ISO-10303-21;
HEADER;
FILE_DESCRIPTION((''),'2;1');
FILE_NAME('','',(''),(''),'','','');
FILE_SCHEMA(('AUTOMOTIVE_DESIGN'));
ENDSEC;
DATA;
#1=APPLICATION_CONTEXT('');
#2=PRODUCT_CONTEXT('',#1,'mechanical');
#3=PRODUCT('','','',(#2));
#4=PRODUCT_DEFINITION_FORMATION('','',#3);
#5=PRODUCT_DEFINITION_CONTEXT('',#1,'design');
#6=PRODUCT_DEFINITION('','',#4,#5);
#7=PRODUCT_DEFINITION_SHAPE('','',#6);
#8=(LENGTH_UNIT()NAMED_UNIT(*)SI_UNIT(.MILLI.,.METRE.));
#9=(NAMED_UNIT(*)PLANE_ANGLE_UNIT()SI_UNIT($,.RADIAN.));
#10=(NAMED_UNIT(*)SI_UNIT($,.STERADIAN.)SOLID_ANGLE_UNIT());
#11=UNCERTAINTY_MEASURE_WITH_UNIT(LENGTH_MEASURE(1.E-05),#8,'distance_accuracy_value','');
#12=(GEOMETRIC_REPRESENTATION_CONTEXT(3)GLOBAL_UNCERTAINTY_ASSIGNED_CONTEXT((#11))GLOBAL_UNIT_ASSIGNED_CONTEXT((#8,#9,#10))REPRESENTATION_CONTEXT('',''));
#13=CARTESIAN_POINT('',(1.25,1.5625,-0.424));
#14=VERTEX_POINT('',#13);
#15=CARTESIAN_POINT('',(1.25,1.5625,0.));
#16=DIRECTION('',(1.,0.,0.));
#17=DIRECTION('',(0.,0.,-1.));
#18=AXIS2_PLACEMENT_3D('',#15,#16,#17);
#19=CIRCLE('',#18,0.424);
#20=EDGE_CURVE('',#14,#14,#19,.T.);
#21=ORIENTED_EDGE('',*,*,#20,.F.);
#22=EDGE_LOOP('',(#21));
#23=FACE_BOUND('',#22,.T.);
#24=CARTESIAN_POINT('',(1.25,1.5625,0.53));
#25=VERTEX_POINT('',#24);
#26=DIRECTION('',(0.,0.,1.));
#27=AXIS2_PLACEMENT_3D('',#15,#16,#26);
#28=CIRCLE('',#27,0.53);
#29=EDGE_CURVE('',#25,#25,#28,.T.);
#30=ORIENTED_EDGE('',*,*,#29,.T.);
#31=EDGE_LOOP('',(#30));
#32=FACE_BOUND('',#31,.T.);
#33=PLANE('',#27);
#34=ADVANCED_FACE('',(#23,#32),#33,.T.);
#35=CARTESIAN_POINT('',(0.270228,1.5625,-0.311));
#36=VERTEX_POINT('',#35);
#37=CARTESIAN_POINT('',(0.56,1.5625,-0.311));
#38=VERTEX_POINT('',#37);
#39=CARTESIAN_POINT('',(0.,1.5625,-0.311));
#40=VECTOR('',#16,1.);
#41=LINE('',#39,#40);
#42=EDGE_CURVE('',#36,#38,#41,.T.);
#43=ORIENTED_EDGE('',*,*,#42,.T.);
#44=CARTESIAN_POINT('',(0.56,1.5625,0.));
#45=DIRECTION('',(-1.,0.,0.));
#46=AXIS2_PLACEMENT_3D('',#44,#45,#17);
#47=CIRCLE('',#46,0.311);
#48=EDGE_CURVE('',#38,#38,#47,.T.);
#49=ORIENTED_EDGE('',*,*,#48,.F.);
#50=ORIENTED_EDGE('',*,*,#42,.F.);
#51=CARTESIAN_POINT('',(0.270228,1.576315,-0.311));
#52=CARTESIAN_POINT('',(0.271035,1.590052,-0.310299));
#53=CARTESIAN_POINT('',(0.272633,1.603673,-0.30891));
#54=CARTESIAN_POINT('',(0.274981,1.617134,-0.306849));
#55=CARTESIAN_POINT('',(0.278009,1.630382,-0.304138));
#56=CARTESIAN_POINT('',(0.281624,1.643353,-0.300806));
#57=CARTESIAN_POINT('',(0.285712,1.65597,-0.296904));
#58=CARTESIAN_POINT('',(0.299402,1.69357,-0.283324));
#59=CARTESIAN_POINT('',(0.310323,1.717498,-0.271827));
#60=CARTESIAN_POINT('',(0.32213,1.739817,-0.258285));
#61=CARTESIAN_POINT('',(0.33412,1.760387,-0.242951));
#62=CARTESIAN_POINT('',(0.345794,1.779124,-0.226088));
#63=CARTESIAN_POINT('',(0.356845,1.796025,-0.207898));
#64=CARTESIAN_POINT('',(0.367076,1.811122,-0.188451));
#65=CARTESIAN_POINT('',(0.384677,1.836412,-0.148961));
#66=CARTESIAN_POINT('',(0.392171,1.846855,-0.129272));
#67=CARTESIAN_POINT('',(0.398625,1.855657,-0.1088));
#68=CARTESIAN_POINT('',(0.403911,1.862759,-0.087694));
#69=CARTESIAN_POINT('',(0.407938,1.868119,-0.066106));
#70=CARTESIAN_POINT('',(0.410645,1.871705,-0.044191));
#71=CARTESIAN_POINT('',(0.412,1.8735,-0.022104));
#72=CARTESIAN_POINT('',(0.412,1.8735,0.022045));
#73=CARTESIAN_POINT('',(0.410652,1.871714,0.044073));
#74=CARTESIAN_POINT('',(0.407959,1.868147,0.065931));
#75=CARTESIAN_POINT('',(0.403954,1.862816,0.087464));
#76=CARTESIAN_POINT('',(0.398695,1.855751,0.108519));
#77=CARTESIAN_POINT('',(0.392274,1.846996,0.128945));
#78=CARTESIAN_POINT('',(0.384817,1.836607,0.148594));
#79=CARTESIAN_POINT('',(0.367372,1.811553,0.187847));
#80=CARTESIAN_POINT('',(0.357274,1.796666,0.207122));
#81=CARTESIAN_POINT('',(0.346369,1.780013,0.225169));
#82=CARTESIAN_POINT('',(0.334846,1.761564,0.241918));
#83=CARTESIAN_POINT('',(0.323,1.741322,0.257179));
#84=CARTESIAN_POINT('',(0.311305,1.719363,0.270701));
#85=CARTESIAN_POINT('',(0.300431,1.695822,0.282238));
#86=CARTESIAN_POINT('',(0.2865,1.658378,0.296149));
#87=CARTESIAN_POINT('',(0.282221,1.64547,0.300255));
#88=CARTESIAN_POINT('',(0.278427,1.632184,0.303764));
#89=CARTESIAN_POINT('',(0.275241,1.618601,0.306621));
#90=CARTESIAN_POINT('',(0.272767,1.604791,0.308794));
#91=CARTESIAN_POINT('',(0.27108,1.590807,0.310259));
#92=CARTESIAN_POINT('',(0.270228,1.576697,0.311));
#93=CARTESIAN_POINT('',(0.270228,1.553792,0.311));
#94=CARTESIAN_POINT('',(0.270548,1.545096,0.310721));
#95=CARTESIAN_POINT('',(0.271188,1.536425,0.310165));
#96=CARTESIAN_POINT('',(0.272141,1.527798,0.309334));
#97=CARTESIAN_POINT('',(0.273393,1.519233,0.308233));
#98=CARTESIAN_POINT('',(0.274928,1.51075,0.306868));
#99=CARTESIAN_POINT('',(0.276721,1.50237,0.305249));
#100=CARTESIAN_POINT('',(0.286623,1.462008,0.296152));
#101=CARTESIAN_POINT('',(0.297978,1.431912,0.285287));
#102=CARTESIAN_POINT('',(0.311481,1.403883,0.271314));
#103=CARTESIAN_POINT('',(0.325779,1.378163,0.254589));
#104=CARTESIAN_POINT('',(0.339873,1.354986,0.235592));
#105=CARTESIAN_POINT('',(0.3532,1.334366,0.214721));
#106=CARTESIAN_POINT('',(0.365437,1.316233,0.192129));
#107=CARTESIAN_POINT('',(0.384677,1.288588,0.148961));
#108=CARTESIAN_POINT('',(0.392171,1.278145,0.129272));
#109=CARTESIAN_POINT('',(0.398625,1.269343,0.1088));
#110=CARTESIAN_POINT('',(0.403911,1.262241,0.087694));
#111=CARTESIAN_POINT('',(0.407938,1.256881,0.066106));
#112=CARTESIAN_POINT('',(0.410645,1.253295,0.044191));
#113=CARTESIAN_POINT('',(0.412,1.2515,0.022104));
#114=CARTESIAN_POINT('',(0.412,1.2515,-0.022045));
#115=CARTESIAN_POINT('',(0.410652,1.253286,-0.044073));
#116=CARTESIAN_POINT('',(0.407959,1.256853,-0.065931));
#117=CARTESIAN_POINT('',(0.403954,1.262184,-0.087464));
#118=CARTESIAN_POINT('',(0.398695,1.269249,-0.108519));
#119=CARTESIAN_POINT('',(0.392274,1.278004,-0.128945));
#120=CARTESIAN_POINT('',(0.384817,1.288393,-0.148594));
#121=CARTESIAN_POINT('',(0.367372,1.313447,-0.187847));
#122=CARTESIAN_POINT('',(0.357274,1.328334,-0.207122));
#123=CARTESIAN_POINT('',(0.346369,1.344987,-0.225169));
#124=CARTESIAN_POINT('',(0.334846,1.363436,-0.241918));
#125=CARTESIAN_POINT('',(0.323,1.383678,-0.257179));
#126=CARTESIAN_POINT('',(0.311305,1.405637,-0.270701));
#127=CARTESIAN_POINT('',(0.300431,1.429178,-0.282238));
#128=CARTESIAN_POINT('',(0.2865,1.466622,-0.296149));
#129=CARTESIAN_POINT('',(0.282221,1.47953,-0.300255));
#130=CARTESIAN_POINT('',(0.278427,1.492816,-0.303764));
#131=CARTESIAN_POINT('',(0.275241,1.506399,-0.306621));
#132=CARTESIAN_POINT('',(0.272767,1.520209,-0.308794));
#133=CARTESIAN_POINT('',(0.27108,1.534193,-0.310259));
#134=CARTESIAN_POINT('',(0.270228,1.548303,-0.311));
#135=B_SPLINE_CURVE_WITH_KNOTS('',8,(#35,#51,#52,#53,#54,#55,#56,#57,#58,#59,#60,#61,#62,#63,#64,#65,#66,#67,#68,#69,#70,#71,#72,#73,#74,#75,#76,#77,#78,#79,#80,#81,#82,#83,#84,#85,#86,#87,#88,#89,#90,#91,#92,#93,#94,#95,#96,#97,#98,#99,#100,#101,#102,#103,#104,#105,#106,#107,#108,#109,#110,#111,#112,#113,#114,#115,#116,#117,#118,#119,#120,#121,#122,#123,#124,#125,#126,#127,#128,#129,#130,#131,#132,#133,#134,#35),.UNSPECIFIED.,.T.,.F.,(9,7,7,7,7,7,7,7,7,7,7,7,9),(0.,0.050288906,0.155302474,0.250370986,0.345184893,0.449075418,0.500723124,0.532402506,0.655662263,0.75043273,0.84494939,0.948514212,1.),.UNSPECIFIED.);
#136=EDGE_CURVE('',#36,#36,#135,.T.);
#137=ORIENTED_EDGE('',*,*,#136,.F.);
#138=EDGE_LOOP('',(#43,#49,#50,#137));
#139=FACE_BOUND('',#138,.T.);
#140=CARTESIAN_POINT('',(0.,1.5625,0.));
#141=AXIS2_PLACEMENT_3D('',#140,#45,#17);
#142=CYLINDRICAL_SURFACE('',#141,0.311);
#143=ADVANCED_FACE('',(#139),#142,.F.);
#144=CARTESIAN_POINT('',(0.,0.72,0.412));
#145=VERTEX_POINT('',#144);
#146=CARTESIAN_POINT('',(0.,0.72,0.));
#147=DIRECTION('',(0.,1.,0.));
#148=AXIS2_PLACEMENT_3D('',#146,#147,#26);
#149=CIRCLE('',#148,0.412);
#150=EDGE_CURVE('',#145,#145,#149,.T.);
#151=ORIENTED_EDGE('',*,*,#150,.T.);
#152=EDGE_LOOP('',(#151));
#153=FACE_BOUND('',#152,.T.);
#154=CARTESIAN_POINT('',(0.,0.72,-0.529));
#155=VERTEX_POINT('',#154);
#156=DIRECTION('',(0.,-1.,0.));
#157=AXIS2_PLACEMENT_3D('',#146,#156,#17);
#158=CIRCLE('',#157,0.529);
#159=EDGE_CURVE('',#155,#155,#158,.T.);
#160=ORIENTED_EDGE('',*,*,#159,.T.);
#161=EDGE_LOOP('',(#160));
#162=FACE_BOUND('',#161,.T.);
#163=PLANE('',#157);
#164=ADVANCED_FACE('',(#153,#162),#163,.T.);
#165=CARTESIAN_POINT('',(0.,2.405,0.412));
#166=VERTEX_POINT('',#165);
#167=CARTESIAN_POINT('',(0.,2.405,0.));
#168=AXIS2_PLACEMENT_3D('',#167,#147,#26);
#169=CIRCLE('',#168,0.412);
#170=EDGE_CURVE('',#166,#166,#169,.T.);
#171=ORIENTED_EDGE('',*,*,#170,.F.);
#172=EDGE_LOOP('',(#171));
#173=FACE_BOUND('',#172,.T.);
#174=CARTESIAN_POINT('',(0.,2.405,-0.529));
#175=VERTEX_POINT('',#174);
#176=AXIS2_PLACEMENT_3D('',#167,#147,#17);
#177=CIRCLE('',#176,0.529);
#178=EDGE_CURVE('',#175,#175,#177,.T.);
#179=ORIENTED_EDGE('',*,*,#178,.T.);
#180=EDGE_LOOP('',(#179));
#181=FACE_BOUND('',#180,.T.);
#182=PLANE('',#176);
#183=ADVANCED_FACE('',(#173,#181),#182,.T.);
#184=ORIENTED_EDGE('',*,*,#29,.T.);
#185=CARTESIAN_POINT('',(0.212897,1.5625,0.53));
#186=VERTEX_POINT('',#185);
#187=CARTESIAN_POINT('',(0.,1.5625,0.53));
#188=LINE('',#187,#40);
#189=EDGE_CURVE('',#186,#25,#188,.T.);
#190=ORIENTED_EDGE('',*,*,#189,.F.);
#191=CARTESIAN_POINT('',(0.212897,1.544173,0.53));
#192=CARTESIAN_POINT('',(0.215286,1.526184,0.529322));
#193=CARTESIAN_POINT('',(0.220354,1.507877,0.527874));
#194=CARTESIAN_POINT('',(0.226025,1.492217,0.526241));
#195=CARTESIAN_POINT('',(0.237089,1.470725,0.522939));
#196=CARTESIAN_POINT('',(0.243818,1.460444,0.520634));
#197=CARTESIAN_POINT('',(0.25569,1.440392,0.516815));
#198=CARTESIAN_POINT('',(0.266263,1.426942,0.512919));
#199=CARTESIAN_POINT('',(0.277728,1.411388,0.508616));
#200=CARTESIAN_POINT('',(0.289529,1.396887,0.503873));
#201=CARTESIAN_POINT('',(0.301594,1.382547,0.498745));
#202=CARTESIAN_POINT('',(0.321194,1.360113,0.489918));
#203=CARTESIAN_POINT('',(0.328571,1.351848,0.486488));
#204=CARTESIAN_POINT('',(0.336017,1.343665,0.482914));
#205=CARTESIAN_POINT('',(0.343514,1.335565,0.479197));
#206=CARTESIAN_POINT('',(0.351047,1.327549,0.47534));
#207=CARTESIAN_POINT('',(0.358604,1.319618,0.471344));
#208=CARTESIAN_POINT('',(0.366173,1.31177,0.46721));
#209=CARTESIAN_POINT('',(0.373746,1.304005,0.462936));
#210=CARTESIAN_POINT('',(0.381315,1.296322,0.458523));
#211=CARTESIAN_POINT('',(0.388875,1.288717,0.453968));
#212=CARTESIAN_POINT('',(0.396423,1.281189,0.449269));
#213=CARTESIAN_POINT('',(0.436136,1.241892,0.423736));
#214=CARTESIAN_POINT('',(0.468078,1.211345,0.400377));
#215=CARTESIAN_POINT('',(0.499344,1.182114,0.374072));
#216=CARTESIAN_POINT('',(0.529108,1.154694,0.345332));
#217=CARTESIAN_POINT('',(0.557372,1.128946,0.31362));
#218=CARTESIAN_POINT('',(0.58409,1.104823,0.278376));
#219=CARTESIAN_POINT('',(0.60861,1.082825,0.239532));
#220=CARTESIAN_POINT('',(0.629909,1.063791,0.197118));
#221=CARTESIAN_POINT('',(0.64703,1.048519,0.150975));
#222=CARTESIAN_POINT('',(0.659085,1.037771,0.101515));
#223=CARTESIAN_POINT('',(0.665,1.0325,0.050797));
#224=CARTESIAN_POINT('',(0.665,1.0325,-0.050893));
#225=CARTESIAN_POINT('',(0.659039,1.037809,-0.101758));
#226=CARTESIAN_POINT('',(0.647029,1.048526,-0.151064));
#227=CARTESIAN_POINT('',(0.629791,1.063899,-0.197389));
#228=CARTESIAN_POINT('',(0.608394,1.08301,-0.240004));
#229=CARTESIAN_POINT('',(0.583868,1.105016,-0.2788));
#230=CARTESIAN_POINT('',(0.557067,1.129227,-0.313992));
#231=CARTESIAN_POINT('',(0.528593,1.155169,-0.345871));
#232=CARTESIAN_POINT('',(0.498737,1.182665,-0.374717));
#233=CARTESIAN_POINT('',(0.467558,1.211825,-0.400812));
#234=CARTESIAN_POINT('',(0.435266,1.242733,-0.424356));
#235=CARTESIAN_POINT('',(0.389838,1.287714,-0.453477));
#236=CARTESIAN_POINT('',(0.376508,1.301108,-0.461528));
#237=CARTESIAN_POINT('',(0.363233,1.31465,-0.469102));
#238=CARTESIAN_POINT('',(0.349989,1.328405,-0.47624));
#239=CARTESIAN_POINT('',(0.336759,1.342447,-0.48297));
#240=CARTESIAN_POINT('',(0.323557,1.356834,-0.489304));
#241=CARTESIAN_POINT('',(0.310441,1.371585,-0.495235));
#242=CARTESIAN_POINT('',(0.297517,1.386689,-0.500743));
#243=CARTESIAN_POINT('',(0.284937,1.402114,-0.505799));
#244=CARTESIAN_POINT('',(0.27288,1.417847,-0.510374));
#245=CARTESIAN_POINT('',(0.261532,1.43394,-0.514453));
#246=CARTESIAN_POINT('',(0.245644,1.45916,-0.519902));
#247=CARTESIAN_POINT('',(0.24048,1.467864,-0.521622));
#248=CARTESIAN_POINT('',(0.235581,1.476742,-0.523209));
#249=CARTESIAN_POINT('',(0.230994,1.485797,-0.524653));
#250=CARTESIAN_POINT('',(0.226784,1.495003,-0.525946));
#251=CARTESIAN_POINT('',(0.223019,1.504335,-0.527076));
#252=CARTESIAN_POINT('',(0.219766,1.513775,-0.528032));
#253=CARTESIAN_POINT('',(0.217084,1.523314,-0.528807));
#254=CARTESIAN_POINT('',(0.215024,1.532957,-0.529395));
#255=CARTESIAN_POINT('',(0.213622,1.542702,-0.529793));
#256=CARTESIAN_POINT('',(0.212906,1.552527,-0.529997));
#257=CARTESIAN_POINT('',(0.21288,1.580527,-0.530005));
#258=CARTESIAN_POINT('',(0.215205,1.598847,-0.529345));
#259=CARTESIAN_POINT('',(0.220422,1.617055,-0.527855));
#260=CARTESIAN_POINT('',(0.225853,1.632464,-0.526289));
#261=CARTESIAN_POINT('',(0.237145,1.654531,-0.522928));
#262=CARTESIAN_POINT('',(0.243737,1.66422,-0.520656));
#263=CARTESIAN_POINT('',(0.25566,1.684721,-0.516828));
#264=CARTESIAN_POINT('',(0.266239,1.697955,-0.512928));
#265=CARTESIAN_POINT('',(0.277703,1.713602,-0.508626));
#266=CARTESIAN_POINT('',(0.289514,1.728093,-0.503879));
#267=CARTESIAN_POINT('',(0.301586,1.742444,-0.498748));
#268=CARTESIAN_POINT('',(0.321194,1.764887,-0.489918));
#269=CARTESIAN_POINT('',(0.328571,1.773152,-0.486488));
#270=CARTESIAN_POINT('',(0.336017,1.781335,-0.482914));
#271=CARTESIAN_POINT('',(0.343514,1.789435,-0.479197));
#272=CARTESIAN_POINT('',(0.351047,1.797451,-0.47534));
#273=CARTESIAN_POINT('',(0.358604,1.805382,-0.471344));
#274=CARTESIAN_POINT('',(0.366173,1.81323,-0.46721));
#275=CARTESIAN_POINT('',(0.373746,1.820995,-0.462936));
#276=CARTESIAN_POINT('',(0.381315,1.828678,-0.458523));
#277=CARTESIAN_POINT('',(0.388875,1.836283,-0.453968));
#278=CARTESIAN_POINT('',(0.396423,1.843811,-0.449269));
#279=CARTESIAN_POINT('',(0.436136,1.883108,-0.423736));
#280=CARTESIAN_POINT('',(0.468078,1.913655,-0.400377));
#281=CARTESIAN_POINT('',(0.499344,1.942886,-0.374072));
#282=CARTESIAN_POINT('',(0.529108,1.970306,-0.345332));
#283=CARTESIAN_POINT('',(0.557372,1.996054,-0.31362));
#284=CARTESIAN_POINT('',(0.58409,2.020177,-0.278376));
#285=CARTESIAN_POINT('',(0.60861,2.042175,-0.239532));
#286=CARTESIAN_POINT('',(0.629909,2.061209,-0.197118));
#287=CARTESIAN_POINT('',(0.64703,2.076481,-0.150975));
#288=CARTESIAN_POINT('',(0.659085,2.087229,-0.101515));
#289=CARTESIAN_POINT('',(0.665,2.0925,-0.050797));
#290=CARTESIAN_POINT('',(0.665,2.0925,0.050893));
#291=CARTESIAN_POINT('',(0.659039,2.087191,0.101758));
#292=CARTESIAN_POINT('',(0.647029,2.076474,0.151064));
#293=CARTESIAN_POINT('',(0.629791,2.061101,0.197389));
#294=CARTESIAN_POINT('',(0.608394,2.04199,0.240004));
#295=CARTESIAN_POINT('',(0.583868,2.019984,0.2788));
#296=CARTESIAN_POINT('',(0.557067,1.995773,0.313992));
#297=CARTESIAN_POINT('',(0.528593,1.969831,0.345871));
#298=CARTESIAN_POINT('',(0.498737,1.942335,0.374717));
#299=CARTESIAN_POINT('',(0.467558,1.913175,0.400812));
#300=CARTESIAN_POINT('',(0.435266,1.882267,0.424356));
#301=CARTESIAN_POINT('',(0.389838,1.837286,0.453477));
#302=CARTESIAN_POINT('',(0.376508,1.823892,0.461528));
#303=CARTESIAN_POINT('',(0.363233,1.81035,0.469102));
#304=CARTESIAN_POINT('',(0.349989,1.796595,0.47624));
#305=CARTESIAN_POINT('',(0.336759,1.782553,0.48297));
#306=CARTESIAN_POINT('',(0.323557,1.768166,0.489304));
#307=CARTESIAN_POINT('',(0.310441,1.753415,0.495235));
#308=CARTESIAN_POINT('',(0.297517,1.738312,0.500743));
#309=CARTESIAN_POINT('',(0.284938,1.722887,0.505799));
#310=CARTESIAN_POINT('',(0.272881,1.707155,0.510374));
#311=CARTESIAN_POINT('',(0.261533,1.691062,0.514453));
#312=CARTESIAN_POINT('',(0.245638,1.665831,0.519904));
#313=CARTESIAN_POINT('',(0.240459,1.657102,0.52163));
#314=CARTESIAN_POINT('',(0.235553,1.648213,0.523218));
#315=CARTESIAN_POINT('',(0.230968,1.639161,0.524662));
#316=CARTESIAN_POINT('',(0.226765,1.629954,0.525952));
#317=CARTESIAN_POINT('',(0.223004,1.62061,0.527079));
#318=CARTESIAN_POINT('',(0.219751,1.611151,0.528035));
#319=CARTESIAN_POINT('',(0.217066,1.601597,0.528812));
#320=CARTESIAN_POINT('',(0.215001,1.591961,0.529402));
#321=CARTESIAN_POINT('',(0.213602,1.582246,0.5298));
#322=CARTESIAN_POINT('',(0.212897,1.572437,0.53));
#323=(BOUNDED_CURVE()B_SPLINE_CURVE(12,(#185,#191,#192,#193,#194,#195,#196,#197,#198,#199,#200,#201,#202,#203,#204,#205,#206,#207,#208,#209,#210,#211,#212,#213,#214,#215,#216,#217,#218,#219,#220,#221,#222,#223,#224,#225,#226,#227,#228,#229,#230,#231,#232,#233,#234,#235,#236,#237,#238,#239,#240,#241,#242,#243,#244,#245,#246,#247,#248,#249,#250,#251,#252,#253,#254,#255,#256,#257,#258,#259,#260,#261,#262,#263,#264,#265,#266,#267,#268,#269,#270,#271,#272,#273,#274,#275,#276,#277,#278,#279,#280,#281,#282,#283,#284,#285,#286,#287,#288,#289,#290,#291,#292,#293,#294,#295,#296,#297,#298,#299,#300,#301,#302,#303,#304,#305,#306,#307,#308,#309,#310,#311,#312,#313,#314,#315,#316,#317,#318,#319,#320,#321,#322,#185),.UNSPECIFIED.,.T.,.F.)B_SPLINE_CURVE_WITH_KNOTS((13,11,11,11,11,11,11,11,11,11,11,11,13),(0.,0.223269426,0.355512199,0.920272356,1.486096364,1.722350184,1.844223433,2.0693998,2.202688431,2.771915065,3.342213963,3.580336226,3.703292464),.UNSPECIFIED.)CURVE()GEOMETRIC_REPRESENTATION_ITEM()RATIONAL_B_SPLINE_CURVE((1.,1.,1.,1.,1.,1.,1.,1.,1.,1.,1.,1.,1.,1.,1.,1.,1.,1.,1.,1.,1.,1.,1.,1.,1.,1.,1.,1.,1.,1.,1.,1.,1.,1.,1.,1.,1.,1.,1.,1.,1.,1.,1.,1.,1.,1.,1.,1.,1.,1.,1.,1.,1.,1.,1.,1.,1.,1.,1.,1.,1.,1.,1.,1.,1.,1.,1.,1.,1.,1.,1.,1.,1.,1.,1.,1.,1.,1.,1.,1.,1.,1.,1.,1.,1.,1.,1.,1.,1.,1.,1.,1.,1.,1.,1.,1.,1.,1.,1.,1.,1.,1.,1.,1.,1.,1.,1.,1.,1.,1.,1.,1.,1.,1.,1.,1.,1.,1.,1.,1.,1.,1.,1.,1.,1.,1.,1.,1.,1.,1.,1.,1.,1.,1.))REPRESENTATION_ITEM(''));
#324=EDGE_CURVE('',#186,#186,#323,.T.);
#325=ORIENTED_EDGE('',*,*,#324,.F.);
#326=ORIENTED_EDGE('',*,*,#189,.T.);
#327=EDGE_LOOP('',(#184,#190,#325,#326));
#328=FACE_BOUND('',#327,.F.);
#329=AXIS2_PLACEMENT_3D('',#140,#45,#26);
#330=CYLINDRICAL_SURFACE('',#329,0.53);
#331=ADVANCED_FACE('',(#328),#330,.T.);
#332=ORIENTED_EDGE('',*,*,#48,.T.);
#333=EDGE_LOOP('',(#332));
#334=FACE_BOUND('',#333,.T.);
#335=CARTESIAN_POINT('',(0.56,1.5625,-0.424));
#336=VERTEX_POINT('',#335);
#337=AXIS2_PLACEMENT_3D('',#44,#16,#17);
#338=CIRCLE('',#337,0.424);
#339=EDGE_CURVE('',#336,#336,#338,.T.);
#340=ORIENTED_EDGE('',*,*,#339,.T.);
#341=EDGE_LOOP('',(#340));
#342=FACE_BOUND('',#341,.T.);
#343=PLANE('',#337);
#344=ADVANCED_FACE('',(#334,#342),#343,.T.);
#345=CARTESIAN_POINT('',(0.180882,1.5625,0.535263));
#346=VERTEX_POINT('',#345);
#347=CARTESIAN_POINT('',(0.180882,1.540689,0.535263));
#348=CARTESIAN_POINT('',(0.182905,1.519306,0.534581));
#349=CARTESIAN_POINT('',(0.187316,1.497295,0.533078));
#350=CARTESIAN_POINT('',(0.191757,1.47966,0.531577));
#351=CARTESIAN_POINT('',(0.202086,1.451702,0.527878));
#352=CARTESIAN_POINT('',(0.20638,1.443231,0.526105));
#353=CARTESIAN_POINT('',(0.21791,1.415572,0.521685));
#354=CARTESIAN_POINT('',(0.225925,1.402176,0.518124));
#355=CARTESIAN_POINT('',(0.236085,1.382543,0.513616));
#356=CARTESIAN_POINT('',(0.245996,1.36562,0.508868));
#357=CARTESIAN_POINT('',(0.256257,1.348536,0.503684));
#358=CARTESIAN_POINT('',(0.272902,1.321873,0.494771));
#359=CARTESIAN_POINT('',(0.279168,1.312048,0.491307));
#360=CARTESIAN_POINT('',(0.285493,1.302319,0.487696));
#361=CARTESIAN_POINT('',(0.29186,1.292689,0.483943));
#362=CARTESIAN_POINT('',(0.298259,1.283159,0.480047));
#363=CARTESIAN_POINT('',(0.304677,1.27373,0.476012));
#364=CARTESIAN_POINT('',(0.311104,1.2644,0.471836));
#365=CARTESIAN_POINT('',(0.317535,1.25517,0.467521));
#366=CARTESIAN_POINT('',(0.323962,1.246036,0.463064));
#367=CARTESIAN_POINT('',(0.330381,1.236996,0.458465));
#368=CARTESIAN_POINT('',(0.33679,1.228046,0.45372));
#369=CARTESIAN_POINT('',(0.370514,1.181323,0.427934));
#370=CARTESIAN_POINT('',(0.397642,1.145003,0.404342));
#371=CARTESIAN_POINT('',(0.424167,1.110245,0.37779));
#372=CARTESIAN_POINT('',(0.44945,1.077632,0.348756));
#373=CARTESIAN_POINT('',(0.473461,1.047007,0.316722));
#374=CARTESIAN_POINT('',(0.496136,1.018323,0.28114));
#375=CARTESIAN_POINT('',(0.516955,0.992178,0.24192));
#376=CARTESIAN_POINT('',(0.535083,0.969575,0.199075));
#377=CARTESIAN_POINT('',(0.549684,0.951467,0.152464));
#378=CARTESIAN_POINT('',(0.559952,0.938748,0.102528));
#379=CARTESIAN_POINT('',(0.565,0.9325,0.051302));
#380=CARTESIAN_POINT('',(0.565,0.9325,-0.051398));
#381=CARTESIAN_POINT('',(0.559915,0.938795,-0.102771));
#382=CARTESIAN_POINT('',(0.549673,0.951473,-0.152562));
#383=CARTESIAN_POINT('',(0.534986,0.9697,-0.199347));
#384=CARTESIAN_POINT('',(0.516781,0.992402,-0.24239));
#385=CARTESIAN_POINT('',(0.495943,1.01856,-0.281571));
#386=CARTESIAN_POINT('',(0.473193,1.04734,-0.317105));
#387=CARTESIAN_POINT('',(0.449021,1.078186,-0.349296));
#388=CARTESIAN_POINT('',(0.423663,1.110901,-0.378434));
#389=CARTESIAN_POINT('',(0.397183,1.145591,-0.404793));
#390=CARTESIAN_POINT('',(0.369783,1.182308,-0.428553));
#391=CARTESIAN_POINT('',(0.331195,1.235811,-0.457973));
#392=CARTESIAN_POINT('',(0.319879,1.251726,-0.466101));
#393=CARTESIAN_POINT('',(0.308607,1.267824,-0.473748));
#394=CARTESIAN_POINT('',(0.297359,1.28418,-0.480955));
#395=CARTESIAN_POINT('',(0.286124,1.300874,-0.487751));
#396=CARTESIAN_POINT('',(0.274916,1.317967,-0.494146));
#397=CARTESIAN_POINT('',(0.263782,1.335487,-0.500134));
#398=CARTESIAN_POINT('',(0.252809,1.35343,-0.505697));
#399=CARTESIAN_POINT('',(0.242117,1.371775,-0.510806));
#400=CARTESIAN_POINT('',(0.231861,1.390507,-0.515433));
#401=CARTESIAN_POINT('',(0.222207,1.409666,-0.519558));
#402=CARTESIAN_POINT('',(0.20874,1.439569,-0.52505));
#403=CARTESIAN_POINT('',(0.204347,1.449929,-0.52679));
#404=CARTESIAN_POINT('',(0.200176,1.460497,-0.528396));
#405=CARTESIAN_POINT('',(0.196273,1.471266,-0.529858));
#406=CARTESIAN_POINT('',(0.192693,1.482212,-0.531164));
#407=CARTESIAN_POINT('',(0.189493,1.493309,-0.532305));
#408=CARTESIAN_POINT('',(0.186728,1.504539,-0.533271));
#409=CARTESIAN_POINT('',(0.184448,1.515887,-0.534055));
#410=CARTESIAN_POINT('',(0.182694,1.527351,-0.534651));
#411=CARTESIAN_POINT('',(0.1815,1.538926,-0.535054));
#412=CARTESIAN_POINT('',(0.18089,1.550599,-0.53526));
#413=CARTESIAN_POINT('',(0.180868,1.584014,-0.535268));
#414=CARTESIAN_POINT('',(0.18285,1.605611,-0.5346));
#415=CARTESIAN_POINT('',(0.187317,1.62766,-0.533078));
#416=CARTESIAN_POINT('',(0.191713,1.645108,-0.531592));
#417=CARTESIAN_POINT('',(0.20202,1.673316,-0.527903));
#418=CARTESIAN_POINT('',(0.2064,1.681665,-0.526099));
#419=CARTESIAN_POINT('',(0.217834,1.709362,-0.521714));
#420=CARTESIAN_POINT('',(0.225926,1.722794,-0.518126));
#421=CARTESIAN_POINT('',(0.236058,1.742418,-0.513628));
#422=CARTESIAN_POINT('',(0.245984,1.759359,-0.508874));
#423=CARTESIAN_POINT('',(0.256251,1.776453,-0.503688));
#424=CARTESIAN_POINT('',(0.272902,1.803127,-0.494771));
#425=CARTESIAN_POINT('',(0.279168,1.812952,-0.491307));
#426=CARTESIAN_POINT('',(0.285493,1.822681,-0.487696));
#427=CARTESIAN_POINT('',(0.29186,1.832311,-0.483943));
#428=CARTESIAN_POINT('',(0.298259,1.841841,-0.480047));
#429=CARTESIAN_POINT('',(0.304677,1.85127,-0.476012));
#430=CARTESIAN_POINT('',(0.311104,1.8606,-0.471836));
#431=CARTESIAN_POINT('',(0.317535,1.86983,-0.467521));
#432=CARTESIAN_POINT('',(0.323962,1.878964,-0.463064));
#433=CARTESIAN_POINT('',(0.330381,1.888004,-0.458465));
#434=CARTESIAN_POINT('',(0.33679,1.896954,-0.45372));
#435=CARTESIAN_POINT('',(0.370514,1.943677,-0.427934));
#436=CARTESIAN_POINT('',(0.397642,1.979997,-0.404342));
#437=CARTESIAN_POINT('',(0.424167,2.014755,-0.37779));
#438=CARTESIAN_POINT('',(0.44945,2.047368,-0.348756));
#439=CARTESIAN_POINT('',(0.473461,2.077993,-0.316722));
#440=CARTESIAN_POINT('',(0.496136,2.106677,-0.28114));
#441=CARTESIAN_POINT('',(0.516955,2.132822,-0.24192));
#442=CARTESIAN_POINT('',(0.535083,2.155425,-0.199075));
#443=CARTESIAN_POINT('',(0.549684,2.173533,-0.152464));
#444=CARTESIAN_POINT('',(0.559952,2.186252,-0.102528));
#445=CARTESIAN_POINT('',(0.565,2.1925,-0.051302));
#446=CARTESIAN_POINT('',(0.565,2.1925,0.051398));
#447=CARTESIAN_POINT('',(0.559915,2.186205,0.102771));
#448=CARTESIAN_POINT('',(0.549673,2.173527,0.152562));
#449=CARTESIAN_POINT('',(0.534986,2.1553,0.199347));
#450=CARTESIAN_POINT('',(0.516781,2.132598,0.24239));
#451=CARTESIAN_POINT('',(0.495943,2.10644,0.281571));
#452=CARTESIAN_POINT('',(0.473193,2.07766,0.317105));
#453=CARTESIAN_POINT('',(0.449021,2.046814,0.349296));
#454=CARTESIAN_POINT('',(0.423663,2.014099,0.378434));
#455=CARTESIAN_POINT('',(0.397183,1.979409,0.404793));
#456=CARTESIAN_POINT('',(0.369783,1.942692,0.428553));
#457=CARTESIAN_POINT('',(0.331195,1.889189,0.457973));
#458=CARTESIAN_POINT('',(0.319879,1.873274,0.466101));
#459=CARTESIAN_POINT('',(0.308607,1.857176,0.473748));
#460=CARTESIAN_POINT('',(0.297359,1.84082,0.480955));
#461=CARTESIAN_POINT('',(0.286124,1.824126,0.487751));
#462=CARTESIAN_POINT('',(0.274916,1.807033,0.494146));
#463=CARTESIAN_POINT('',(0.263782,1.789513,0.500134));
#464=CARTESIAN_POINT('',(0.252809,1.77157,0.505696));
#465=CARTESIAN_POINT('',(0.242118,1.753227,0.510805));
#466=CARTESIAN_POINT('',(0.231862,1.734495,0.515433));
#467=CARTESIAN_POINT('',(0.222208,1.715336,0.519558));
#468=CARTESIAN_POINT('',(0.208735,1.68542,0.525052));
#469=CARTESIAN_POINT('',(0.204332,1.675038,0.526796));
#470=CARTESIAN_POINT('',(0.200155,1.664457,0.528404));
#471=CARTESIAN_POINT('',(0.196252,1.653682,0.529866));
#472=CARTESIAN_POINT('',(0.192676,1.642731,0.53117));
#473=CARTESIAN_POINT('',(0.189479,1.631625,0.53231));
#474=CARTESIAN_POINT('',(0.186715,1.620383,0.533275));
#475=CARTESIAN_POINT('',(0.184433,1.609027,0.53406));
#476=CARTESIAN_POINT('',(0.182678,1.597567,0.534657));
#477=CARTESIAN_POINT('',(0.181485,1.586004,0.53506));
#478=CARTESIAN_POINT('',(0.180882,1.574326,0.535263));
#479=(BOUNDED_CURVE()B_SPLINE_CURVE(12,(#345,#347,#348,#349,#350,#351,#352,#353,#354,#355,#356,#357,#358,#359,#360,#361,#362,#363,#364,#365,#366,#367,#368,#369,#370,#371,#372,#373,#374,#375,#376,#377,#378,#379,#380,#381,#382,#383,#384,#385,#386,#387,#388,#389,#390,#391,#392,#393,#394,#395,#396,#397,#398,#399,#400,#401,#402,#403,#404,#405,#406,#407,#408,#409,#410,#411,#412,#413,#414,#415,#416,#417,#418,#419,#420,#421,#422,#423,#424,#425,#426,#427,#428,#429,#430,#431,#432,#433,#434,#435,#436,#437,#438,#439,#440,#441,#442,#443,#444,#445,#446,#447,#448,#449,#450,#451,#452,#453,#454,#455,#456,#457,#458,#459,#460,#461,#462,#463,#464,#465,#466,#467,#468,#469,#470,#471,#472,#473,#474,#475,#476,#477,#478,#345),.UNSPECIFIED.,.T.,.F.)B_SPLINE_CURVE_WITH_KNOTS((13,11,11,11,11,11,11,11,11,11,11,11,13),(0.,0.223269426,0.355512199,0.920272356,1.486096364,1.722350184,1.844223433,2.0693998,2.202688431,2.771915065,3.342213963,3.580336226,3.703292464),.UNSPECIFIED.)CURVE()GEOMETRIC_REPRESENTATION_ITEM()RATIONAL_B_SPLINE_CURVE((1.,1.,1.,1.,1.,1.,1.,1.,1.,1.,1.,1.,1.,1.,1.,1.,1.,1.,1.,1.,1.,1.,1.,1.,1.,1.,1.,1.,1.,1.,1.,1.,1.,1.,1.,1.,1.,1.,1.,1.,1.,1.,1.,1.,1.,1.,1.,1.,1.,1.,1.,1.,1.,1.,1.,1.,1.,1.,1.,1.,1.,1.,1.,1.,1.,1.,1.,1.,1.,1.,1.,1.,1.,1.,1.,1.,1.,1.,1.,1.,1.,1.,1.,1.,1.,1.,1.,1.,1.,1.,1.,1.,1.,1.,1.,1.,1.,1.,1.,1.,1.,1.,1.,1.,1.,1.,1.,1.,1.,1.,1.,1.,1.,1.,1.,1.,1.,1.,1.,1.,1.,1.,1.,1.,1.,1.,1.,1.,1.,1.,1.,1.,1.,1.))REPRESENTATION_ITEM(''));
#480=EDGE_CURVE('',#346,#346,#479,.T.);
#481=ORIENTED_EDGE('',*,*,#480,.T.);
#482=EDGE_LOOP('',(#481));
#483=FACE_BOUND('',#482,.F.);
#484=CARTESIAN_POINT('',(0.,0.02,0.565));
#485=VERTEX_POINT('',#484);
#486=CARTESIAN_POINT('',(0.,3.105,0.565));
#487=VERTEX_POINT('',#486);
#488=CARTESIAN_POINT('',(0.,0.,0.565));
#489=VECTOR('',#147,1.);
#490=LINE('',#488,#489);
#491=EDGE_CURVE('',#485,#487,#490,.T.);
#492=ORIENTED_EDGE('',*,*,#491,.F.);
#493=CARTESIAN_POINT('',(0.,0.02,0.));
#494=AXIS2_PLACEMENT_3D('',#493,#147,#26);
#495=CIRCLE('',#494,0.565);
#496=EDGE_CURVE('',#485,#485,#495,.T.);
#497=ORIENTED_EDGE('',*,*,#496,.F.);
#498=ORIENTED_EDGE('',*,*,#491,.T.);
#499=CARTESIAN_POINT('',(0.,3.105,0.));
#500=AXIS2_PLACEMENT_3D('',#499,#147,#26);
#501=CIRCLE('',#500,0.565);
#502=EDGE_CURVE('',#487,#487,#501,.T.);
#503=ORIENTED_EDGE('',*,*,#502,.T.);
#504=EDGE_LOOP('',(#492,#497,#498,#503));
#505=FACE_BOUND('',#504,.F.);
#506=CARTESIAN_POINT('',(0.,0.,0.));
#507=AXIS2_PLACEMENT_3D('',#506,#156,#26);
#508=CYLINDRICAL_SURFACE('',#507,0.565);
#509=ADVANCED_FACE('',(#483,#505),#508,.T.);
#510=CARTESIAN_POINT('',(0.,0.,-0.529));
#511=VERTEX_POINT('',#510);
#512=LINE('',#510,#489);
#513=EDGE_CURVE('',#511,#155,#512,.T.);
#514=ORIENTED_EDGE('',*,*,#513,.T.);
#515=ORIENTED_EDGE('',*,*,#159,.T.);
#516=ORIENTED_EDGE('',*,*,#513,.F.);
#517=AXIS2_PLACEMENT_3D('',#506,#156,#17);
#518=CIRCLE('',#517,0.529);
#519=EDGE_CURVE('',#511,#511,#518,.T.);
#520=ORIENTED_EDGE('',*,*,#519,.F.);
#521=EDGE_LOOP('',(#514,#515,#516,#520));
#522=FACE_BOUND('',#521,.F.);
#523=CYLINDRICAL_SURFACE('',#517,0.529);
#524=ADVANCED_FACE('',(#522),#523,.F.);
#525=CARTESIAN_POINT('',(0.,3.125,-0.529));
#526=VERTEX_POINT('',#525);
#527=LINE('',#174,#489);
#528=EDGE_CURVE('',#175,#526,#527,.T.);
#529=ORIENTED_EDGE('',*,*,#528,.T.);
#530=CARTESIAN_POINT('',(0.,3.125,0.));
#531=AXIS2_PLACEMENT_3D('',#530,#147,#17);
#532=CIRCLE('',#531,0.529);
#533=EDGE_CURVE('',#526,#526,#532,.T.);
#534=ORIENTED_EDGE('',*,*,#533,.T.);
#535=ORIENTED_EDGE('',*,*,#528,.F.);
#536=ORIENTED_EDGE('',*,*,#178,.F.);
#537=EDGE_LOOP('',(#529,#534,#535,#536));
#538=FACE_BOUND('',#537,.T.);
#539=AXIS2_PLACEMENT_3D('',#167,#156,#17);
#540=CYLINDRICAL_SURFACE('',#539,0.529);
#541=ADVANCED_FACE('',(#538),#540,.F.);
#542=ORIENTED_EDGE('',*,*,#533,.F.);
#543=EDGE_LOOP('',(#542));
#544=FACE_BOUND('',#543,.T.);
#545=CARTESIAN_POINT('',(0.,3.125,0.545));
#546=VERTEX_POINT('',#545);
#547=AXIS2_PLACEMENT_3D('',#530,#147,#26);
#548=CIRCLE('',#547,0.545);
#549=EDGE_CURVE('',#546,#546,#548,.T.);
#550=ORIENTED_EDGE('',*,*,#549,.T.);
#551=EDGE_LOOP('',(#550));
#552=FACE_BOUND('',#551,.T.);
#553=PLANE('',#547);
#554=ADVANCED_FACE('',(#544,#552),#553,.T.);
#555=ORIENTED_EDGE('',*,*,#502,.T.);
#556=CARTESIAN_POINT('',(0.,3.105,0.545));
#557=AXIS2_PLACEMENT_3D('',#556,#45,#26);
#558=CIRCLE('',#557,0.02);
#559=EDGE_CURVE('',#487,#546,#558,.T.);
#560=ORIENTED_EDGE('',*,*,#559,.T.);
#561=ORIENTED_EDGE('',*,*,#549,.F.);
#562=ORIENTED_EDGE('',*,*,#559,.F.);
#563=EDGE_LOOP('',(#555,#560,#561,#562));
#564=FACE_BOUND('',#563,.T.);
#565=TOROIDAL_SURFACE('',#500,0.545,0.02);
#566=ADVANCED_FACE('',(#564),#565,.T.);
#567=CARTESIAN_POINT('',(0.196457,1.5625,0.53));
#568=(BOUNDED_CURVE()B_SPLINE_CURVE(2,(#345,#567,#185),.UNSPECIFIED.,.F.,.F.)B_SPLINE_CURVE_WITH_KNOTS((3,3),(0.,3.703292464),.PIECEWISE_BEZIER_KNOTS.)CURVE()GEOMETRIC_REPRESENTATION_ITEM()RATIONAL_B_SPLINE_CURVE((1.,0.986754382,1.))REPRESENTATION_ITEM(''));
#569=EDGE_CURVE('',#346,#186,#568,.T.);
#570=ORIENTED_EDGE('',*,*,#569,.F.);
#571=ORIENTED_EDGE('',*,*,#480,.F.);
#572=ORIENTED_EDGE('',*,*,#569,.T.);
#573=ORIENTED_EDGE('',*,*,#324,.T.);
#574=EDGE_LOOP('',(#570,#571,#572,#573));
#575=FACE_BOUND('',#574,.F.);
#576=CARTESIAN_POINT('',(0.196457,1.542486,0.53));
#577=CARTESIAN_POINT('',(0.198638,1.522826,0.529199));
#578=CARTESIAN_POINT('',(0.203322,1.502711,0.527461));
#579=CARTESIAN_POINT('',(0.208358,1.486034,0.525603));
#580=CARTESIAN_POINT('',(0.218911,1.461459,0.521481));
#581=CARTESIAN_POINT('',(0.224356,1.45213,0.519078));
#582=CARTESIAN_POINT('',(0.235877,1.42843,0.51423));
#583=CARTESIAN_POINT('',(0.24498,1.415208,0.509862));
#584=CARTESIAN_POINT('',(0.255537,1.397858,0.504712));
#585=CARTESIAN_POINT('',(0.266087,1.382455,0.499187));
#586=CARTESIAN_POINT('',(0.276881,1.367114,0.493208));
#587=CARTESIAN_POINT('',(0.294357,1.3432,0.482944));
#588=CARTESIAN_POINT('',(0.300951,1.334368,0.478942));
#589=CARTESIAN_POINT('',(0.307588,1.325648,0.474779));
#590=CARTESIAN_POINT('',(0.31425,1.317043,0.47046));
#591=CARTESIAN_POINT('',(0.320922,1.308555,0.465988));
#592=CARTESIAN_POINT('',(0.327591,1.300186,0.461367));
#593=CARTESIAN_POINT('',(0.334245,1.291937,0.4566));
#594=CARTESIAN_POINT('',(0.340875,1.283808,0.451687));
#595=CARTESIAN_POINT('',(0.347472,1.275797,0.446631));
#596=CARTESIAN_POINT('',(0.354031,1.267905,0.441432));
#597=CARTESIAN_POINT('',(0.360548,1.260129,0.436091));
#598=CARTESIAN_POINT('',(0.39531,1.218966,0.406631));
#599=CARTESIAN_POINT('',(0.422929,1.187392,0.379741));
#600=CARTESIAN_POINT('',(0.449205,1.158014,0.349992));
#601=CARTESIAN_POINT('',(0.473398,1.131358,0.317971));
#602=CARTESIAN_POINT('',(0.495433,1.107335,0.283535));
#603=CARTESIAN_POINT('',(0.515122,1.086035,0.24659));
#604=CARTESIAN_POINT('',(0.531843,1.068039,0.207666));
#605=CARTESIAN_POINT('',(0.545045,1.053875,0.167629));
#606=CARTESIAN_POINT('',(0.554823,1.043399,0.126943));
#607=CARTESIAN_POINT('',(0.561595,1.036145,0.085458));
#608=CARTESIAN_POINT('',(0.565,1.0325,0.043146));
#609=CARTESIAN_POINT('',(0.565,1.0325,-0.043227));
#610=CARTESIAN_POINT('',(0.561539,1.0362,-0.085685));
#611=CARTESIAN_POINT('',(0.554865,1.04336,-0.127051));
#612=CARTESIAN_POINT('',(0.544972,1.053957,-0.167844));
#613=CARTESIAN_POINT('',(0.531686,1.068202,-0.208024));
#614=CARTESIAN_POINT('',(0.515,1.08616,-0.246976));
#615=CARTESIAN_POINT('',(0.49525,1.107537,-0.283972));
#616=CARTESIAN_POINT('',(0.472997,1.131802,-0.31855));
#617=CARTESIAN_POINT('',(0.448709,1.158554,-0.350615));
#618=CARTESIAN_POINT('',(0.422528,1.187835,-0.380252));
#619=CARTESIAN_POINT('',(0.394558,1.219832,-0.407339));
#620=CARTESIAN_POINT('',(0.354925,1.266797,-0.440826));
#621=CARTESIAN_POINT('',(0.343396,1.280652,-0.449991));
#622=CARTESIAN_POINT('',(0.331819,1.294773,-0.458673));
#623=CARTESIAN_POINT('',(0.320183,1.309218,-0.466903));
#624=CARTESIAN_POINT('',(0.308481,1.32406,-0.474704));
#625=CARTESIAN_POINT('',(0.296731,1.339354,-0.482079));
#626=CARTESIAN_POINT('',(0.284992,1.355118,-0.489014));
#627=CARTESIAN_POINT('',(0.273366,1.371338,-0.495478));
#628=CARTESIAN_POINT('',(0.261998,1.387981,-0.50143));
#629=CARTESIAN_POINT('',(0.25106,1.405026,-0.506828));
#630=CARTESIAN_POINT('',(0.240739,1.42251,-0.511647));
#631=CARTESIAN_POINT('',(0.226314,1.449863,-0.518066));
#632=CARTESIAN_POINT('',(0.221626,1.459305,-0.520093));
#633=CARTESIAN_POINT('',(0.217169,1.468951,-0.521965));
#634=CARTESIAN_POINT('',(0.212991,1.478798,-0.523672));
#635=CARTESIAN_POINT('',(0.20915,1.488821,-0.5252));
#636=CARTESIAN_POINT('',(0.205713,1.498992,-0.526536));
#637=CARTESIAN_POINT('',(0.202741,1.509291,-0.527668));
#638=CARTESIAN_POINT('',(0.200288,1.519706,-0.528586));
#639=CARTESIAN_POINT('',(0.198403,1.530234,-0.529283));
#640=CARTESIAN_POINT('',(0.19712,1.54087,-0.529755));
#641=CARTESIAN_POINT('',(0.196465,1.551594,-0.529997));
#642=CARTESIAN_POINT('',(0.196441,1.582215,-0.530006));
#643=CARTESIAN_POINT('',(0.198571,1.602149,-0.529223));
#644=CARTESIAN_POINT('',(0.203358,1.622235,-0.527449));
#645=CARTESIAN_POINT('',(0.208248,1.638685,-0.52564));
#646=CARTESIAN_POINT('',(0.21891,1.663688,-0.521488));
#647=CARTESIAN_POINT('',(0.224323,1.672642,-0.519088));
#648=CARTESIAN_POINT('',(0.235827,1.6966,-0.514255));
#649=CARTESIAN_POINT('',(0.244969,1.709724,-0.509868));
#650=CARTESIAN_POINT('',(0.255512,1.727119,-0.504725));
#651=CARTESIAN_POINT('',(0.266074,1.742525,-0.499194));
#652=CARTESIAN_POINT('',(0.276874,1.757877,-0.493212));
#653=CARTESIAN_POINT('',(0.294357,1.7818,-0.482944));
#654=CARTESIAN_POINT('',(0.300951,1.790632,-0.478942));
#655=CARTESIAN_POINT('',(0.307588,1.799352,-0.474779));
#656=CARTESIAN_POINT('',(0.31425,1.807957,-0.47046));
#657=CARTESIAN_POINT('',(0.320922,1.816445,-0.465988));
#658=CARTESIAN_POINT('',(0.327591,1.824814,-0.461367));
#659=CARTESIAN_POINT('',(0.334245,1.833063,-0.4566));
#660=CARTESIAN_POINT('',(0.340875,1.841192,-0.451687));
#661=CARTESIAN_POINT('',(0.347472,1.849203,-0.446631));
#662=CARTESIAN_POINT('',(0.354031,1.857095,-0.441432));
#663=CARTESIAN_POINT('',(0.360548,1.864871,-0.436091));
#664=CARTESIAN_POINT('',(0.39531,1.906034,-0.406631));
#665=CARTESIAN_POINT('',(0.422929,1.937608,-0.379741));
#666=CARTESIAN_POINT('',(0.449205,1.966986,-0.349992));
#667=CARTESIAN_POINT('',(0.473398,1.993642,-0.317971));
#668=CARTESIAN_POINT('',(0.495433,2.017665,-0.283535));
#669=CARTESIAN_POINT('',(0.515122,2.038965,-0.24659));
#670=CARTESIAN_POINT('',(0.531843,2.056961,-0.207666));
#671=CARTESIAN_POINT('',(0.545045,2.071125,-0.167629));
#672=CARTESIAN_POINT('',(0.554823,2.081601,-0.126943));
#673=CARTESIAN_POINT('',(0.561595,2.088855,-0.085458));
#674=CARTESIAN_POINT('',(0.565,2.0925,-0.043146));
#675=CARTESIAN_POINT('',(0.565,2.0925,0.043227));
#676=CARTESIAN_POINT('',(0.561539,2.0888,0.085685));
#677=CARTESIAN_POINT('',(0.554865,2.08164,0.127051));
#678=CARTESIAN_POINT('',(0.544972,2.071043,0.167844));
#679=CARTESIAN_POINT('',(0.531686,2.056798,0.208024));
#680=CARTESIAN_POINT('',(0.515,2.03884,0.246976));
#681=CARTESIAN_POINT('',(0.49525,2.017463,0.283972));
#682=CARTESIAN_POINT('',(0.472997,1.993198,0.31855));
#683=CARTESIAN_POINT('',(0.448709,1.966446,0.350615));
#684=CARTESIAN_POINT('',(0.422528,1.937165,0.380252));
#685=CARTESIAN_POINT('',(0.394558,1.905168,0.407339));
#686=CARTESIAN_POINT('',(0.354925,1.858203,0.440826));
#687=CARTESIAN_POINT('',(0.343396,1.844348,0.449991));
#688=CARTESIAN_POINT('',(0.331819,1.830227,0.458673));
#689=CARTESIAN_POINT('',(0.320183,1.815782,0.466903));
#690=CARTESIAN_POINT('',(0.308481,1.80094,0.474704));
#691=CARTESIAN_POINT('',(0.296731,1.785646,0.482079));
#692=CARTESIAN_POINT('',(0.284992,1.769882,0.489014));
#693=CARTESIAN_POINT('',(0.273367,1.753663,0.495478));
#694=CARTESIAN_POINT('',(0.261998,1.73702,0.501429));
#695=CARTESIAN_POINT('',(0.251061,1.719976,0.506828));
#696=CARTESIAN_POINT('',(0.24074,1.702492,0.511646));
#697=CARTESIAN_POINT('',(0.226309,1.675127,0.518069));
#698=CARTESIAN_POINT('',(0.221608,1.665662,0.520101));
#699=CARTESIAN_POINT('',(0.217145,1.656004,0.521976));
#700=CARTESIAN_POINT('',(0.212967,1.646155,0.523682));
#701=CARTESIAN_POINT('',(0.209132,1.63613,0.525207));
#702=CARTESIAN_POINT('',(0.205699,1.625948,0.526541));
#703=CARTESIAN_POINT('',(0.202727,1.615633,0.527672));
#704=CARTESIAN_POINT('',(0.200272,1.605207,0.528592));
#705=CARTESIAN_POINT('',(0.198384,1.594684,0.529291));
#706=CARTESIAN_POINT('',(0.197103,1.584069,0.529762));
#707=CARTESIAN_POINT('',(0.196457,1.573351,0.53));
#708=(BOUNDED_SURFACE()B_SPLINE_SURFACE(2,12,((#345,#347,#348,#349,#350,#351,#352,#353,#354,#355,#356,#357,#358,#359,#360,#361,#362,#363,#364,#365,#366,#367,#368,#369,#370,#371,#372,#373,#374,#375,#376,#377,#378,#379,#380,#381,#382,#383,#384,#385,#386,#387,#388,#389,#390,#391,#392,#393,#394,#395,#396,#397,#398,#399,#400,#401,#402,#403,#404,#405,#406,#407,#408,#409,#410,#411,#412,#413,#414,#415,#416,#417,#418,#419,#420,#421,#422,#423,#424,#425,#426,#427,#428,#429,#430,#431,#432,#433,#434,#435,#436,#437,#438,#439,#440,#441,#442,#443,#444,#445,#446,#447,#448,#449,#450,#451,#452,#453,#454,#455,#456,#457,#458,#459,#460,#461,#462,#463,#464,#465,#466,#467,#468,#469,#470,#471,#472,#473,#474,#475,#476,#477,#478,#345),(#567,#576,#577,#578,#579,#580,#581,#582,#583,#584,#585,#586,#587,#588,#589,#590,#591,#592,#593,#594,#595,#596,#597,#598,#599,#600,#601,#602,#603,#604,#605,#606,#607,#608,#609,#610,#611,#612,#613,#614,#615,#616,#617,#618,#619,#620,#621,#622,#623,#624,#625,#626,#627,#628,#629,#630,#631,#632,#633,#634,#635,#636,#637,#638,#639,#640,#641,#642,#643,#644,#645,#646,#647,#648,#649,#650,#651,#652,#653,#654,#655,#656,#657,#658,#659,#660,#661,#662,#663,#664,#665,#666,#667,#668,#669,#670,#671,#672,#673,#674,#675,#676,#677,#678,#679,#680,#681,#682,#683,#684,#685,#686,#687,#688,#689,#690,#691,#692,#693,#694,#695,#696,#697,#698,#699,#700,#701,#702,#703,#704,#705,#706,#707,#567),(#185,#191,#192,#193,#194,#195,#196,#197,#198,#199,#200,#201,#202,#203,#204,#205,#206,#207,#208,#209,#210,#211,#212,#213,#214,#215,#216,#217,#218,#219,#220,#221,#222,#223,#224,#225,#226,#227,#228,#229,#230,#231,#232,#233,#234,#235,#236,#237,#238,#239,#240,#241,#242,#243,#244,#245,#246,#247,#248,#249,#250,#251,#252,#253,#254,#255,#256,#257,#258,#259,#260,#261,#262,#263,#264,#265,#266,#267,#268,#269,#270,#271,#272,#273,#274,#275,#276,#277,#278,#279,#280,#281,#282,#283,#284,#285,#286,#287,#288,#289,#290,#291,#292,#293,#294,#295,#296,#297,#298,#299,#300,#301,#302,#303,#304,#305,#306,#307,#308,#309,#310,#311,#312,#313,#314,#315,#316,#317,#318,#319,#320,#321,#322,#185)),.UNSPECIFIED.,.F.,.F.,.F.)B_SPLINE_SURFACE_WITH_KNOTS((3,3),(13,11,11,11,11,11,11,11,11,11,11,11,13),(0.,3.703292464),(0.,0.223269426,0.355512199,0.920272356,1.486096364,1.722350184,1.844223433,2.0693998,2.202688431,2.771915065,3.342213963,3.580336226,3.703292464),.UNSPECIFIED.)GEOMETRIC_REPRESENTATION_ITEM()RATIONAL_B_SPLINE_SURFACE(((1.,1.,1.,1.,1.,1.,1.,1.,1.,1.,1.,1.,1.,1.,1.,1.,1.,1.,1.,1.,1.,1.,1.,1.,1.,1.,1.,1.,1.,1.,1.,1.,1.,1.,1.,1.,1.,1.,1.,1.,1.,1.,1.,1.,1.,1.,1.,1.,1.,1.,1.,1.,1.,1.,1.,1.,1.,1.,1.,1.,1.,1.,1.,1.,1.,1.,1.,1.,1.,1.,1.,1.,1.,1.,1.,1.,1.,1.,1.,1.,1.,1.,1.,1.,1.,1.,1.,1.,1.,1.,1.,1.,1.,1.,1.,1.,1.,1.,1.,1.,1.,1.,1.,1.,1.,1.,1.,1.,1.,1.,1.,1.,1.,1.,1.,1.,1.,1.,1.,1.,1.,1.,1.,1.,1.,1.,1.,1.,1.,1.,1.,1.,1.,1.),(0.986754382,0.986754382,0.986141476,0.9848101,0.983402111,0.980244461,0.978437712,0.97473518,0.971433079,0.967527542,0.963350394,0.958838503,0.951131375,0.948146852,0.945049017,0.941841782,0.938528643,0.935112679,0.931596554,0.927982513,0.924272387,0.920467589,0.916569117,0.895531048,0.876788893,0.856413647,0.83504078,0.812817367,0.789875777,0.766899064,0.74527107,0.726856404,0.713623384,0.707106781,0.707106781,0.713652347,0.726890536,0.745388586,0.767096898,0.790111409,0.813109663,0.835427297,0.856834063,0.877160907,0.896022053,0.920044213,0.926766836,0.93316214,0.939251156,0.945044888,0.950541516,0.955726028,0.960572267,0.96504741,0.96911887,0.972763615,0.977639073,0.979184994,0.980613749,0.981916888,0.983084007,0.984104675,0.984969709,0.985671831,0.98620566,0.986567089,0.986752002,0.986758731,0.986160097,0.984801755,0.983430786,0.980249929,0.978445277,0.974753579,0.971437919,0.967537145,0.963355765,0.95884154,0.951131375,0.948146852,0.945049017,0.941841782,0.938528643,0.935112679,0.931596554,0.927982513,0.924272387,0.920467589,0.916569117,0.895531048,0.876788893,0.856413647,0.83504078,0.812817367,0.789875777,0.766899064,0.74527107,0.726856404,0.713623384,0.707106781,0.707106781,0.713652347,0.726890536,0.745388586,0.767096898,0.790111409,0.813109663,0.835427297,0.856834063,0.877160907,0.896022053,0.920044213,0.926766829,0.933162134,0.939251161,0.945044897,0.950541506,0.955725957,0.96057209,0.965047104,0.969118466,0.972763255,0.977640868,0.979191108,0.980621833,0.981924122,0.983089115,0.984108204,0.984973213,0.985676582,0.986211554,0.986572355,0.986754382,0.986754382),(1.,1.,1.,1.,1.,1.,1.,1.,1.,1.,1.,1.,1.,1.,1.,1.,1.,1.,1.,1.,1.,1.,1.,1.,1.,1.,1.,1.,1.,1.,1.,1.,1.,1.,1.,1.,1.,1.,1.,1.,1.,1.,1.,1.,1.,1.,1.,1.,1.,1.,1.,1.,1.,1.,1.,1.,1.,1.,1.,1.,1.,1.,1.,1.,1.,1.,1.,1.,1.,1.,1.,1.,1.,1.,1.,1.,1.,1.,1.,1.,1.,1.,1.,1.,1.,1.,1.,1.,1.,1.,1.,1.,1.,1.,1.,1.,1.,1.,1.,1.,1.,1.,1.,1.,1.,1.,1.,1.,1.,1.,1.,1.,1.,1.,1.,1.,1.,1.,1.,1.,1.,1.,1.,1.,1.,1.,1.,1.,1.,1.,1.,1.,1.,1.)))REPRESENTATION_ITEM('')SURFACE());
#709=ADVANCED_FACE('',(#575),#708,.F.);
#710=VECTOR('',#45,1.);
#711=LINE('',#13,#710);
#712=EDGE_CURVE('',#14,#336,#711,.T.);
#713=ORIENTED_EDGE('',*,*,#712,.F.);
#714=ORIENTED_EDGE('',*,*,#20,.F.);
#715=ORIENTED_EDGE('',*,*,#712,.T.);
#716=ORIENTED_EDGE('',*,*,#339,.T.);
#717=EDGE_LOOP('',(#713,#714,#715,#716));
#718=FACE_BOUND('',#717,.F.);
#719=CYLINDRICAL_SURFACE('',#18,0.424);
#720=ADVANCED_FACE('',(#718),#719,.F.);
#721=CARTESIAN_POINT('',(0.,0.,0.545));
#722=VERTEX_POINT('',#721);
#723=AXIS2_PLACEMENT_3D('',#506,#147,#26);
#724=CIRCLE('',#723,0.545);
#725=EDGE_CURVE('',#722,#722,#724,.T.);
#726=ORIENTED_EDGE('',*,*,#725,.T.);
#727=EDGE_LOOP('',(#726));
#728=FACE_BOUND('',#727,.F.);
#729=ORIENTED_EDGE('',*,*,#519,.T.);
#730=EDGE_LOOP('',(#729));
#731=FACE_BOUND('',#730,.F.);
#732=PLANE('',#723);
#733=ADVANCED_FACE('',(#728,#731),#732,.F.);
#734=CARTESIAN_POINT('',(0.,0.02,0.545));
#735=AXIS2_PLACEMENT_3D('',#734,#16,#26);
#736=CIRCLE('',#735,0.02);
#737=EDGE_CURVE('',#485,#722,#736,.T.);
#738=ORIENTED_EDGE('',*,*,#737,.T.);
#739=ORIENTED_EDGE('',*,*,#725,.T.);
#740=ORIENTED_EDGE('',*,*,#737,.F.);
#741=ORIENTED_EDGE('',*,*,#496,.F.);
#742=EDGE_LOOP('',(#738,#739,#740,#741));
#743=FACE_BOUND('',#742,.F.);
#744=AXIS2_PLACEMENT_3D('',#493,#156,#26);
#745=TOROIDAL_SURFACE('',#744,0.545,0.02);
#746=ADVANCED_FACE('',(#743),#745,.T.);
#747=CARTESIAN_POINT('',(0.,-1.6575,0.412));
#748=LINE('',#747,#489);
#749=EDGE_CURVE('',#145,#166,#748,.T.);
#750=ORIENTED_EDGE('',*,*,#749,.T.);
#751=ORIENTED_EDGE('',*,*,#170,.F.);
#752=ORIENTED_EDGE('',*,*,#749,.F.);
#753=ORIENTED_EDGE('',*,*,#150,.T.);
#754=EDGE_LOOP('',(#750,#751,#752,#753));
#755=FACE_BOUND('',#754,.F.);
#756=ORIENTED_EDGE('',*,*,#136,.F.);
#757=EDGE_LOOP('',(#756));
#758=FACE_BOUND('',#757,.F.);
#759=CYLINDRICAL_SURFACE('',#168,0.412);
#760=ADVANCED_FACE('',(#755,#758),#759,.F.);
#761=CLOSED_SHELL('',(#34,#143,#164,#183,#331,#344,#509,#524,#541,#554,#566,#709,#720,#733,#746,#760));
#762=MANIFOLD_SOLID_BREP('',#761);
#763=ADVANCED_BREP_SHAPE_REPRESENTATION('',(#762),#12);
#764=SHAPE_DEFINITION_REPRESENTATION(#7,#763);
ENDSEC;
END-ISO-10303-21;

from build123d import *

# Parameters (mm, degrees)
SKETCH1_R           = 0.565
BOSS_EXTRUDE1_DEPTH = 3.125
SKETCH3_R           = 0.529
CUT_EXTRUDE2_DEPTH  = 0.72
CUT_EXTRUDE3_START  = -0.72
SKETCH4_R           = 0.529
CUT_EXTRUDE3_DEPTH  = 0.72
SKETCH5_R           = 0.53
BOSS_EXTRUDE2_DEPTH = 1.25
SKETCH6_R           = 0.311
CUT_EXTRUDE8_DEPTH  = 1.25
SKETCH9_R           = 0.424
CUT_EXTRUDE10_DEPTH = 0.69
SKETCH10_R          = 0.412
CUT_EXTRUDE12_DEPTH = 4.0625
FILLET1_R           = 0.02
FILLET2_R           = 0.1


with BuildPart() as part:
    # Sketch1 → Boss-Extrude1 (new body)
    with BuildSketch(Plane(origin=(0, 0, 0), x_dir=(1, 0, 0), z_dir=(0, 1, 0))):
        with Locations(Location((0, 0, 0), (0, 0, 270))):
            Circle(SKETCH1_R)
    extrude(amount=BOSS_EXTRUDE1_DEPTH)

    # Sketch3 → Cut-Extrude2 (cut)
    with BuildSketch(Plane.XZ):
        with Locations(Location((0, 0, 0), (0, 0, 270))):
            Circle(SKETCH3_R)
    extrude(amount=-CUT_EXTRUDE2_DEPTH, mode=Mode.SUBTRACT)

    # Sketch4 → Cut-Extrude3 (cut)
    with BuildSketch(Plane(origin=(0, 3.125, 0), x_dir=(1, 0, 0), z_dir=(0, 1, 0)).offset(CUT_EXTRUDE3_START)):
        with Locations(Location((0, 0, 0), (0, 0, 90))):
            Circle(SKETCH4_R)
    extrude(amount=CUT_EXTRUDE3_DEPTH, mode=Mode.SUBTRACT)

    # Sketch5 → Boss-Extrude2 (add)
    with BuildSketch(Plane(origin=(0, 0, 0), x_dir=(0, 0, -1), z_dir=(1, 0, 0))):
        with Locations(Location((0, 1.5625, 0), (0, 0, 180))):
            Circle(SKETCH5_R)
    extrude(amount=BOSS_EXTRUDE2_DEPTH)

    # Sketch6 → Cut-Extrude8 (cut)
    with BuildSketch(Plane(origin=(0, 0, 0), x_dir=(0, 0, -1), z_dir=(1, 0, 0))):
        with Locations((0, 1.5625)):
            Circle(SKETCH6_R)
    extrude(amount=CUT_EXTRUDE8_DEPTH, mode=Mode.SUBTRACT)

    # Sketch9 → Cut-Extrude10 (cut)
    with BuildSketch(Plane(origin=(1.25, 0, 0), x_dir=(0, 0, -1), z_dir=(1, 0, 0))):
        with Locations((0, 1.5625)):
            Circle(SKETCH9_R)
    extrude(amount=-CUT_EXTRUDE10_DEPTH, mode=Mode.SUBTRACT)

    # Sketch10 → Cut-Extrude12 (cut, symmetric)
    with BuildSketch(Plane(origin=(0, 2.405, 0), x_dir=(1, 0, 0), z_dir=(0, 1, 0))):
        with Locations(Location((0, 0, 0), (0, 0, 270))):
            Circle(SKETCH10_R)
    extrude(amount=CUT_EXTRUDE12_DEPTH, both=True, mode=Mode.SUBTRACT)

    # Fillet1
    fillet1_edges = [part.edges().sort_by_distance(p)[0] for p in [
        (0, 0, -0.565),
        (0, 3.125, -0.565),
    ]]
    fillet(fillet1_edges, radius=FILLET1_R)

    # Fillet2
    fillet2_edges = [part.edges().sort_by_distance(p)[0] for p in [
        (0.19576772, 1.5625, -0.53),
    ]]
    fillet(fillet2_edges, radius=FILLET2_R)


solid = part.part
